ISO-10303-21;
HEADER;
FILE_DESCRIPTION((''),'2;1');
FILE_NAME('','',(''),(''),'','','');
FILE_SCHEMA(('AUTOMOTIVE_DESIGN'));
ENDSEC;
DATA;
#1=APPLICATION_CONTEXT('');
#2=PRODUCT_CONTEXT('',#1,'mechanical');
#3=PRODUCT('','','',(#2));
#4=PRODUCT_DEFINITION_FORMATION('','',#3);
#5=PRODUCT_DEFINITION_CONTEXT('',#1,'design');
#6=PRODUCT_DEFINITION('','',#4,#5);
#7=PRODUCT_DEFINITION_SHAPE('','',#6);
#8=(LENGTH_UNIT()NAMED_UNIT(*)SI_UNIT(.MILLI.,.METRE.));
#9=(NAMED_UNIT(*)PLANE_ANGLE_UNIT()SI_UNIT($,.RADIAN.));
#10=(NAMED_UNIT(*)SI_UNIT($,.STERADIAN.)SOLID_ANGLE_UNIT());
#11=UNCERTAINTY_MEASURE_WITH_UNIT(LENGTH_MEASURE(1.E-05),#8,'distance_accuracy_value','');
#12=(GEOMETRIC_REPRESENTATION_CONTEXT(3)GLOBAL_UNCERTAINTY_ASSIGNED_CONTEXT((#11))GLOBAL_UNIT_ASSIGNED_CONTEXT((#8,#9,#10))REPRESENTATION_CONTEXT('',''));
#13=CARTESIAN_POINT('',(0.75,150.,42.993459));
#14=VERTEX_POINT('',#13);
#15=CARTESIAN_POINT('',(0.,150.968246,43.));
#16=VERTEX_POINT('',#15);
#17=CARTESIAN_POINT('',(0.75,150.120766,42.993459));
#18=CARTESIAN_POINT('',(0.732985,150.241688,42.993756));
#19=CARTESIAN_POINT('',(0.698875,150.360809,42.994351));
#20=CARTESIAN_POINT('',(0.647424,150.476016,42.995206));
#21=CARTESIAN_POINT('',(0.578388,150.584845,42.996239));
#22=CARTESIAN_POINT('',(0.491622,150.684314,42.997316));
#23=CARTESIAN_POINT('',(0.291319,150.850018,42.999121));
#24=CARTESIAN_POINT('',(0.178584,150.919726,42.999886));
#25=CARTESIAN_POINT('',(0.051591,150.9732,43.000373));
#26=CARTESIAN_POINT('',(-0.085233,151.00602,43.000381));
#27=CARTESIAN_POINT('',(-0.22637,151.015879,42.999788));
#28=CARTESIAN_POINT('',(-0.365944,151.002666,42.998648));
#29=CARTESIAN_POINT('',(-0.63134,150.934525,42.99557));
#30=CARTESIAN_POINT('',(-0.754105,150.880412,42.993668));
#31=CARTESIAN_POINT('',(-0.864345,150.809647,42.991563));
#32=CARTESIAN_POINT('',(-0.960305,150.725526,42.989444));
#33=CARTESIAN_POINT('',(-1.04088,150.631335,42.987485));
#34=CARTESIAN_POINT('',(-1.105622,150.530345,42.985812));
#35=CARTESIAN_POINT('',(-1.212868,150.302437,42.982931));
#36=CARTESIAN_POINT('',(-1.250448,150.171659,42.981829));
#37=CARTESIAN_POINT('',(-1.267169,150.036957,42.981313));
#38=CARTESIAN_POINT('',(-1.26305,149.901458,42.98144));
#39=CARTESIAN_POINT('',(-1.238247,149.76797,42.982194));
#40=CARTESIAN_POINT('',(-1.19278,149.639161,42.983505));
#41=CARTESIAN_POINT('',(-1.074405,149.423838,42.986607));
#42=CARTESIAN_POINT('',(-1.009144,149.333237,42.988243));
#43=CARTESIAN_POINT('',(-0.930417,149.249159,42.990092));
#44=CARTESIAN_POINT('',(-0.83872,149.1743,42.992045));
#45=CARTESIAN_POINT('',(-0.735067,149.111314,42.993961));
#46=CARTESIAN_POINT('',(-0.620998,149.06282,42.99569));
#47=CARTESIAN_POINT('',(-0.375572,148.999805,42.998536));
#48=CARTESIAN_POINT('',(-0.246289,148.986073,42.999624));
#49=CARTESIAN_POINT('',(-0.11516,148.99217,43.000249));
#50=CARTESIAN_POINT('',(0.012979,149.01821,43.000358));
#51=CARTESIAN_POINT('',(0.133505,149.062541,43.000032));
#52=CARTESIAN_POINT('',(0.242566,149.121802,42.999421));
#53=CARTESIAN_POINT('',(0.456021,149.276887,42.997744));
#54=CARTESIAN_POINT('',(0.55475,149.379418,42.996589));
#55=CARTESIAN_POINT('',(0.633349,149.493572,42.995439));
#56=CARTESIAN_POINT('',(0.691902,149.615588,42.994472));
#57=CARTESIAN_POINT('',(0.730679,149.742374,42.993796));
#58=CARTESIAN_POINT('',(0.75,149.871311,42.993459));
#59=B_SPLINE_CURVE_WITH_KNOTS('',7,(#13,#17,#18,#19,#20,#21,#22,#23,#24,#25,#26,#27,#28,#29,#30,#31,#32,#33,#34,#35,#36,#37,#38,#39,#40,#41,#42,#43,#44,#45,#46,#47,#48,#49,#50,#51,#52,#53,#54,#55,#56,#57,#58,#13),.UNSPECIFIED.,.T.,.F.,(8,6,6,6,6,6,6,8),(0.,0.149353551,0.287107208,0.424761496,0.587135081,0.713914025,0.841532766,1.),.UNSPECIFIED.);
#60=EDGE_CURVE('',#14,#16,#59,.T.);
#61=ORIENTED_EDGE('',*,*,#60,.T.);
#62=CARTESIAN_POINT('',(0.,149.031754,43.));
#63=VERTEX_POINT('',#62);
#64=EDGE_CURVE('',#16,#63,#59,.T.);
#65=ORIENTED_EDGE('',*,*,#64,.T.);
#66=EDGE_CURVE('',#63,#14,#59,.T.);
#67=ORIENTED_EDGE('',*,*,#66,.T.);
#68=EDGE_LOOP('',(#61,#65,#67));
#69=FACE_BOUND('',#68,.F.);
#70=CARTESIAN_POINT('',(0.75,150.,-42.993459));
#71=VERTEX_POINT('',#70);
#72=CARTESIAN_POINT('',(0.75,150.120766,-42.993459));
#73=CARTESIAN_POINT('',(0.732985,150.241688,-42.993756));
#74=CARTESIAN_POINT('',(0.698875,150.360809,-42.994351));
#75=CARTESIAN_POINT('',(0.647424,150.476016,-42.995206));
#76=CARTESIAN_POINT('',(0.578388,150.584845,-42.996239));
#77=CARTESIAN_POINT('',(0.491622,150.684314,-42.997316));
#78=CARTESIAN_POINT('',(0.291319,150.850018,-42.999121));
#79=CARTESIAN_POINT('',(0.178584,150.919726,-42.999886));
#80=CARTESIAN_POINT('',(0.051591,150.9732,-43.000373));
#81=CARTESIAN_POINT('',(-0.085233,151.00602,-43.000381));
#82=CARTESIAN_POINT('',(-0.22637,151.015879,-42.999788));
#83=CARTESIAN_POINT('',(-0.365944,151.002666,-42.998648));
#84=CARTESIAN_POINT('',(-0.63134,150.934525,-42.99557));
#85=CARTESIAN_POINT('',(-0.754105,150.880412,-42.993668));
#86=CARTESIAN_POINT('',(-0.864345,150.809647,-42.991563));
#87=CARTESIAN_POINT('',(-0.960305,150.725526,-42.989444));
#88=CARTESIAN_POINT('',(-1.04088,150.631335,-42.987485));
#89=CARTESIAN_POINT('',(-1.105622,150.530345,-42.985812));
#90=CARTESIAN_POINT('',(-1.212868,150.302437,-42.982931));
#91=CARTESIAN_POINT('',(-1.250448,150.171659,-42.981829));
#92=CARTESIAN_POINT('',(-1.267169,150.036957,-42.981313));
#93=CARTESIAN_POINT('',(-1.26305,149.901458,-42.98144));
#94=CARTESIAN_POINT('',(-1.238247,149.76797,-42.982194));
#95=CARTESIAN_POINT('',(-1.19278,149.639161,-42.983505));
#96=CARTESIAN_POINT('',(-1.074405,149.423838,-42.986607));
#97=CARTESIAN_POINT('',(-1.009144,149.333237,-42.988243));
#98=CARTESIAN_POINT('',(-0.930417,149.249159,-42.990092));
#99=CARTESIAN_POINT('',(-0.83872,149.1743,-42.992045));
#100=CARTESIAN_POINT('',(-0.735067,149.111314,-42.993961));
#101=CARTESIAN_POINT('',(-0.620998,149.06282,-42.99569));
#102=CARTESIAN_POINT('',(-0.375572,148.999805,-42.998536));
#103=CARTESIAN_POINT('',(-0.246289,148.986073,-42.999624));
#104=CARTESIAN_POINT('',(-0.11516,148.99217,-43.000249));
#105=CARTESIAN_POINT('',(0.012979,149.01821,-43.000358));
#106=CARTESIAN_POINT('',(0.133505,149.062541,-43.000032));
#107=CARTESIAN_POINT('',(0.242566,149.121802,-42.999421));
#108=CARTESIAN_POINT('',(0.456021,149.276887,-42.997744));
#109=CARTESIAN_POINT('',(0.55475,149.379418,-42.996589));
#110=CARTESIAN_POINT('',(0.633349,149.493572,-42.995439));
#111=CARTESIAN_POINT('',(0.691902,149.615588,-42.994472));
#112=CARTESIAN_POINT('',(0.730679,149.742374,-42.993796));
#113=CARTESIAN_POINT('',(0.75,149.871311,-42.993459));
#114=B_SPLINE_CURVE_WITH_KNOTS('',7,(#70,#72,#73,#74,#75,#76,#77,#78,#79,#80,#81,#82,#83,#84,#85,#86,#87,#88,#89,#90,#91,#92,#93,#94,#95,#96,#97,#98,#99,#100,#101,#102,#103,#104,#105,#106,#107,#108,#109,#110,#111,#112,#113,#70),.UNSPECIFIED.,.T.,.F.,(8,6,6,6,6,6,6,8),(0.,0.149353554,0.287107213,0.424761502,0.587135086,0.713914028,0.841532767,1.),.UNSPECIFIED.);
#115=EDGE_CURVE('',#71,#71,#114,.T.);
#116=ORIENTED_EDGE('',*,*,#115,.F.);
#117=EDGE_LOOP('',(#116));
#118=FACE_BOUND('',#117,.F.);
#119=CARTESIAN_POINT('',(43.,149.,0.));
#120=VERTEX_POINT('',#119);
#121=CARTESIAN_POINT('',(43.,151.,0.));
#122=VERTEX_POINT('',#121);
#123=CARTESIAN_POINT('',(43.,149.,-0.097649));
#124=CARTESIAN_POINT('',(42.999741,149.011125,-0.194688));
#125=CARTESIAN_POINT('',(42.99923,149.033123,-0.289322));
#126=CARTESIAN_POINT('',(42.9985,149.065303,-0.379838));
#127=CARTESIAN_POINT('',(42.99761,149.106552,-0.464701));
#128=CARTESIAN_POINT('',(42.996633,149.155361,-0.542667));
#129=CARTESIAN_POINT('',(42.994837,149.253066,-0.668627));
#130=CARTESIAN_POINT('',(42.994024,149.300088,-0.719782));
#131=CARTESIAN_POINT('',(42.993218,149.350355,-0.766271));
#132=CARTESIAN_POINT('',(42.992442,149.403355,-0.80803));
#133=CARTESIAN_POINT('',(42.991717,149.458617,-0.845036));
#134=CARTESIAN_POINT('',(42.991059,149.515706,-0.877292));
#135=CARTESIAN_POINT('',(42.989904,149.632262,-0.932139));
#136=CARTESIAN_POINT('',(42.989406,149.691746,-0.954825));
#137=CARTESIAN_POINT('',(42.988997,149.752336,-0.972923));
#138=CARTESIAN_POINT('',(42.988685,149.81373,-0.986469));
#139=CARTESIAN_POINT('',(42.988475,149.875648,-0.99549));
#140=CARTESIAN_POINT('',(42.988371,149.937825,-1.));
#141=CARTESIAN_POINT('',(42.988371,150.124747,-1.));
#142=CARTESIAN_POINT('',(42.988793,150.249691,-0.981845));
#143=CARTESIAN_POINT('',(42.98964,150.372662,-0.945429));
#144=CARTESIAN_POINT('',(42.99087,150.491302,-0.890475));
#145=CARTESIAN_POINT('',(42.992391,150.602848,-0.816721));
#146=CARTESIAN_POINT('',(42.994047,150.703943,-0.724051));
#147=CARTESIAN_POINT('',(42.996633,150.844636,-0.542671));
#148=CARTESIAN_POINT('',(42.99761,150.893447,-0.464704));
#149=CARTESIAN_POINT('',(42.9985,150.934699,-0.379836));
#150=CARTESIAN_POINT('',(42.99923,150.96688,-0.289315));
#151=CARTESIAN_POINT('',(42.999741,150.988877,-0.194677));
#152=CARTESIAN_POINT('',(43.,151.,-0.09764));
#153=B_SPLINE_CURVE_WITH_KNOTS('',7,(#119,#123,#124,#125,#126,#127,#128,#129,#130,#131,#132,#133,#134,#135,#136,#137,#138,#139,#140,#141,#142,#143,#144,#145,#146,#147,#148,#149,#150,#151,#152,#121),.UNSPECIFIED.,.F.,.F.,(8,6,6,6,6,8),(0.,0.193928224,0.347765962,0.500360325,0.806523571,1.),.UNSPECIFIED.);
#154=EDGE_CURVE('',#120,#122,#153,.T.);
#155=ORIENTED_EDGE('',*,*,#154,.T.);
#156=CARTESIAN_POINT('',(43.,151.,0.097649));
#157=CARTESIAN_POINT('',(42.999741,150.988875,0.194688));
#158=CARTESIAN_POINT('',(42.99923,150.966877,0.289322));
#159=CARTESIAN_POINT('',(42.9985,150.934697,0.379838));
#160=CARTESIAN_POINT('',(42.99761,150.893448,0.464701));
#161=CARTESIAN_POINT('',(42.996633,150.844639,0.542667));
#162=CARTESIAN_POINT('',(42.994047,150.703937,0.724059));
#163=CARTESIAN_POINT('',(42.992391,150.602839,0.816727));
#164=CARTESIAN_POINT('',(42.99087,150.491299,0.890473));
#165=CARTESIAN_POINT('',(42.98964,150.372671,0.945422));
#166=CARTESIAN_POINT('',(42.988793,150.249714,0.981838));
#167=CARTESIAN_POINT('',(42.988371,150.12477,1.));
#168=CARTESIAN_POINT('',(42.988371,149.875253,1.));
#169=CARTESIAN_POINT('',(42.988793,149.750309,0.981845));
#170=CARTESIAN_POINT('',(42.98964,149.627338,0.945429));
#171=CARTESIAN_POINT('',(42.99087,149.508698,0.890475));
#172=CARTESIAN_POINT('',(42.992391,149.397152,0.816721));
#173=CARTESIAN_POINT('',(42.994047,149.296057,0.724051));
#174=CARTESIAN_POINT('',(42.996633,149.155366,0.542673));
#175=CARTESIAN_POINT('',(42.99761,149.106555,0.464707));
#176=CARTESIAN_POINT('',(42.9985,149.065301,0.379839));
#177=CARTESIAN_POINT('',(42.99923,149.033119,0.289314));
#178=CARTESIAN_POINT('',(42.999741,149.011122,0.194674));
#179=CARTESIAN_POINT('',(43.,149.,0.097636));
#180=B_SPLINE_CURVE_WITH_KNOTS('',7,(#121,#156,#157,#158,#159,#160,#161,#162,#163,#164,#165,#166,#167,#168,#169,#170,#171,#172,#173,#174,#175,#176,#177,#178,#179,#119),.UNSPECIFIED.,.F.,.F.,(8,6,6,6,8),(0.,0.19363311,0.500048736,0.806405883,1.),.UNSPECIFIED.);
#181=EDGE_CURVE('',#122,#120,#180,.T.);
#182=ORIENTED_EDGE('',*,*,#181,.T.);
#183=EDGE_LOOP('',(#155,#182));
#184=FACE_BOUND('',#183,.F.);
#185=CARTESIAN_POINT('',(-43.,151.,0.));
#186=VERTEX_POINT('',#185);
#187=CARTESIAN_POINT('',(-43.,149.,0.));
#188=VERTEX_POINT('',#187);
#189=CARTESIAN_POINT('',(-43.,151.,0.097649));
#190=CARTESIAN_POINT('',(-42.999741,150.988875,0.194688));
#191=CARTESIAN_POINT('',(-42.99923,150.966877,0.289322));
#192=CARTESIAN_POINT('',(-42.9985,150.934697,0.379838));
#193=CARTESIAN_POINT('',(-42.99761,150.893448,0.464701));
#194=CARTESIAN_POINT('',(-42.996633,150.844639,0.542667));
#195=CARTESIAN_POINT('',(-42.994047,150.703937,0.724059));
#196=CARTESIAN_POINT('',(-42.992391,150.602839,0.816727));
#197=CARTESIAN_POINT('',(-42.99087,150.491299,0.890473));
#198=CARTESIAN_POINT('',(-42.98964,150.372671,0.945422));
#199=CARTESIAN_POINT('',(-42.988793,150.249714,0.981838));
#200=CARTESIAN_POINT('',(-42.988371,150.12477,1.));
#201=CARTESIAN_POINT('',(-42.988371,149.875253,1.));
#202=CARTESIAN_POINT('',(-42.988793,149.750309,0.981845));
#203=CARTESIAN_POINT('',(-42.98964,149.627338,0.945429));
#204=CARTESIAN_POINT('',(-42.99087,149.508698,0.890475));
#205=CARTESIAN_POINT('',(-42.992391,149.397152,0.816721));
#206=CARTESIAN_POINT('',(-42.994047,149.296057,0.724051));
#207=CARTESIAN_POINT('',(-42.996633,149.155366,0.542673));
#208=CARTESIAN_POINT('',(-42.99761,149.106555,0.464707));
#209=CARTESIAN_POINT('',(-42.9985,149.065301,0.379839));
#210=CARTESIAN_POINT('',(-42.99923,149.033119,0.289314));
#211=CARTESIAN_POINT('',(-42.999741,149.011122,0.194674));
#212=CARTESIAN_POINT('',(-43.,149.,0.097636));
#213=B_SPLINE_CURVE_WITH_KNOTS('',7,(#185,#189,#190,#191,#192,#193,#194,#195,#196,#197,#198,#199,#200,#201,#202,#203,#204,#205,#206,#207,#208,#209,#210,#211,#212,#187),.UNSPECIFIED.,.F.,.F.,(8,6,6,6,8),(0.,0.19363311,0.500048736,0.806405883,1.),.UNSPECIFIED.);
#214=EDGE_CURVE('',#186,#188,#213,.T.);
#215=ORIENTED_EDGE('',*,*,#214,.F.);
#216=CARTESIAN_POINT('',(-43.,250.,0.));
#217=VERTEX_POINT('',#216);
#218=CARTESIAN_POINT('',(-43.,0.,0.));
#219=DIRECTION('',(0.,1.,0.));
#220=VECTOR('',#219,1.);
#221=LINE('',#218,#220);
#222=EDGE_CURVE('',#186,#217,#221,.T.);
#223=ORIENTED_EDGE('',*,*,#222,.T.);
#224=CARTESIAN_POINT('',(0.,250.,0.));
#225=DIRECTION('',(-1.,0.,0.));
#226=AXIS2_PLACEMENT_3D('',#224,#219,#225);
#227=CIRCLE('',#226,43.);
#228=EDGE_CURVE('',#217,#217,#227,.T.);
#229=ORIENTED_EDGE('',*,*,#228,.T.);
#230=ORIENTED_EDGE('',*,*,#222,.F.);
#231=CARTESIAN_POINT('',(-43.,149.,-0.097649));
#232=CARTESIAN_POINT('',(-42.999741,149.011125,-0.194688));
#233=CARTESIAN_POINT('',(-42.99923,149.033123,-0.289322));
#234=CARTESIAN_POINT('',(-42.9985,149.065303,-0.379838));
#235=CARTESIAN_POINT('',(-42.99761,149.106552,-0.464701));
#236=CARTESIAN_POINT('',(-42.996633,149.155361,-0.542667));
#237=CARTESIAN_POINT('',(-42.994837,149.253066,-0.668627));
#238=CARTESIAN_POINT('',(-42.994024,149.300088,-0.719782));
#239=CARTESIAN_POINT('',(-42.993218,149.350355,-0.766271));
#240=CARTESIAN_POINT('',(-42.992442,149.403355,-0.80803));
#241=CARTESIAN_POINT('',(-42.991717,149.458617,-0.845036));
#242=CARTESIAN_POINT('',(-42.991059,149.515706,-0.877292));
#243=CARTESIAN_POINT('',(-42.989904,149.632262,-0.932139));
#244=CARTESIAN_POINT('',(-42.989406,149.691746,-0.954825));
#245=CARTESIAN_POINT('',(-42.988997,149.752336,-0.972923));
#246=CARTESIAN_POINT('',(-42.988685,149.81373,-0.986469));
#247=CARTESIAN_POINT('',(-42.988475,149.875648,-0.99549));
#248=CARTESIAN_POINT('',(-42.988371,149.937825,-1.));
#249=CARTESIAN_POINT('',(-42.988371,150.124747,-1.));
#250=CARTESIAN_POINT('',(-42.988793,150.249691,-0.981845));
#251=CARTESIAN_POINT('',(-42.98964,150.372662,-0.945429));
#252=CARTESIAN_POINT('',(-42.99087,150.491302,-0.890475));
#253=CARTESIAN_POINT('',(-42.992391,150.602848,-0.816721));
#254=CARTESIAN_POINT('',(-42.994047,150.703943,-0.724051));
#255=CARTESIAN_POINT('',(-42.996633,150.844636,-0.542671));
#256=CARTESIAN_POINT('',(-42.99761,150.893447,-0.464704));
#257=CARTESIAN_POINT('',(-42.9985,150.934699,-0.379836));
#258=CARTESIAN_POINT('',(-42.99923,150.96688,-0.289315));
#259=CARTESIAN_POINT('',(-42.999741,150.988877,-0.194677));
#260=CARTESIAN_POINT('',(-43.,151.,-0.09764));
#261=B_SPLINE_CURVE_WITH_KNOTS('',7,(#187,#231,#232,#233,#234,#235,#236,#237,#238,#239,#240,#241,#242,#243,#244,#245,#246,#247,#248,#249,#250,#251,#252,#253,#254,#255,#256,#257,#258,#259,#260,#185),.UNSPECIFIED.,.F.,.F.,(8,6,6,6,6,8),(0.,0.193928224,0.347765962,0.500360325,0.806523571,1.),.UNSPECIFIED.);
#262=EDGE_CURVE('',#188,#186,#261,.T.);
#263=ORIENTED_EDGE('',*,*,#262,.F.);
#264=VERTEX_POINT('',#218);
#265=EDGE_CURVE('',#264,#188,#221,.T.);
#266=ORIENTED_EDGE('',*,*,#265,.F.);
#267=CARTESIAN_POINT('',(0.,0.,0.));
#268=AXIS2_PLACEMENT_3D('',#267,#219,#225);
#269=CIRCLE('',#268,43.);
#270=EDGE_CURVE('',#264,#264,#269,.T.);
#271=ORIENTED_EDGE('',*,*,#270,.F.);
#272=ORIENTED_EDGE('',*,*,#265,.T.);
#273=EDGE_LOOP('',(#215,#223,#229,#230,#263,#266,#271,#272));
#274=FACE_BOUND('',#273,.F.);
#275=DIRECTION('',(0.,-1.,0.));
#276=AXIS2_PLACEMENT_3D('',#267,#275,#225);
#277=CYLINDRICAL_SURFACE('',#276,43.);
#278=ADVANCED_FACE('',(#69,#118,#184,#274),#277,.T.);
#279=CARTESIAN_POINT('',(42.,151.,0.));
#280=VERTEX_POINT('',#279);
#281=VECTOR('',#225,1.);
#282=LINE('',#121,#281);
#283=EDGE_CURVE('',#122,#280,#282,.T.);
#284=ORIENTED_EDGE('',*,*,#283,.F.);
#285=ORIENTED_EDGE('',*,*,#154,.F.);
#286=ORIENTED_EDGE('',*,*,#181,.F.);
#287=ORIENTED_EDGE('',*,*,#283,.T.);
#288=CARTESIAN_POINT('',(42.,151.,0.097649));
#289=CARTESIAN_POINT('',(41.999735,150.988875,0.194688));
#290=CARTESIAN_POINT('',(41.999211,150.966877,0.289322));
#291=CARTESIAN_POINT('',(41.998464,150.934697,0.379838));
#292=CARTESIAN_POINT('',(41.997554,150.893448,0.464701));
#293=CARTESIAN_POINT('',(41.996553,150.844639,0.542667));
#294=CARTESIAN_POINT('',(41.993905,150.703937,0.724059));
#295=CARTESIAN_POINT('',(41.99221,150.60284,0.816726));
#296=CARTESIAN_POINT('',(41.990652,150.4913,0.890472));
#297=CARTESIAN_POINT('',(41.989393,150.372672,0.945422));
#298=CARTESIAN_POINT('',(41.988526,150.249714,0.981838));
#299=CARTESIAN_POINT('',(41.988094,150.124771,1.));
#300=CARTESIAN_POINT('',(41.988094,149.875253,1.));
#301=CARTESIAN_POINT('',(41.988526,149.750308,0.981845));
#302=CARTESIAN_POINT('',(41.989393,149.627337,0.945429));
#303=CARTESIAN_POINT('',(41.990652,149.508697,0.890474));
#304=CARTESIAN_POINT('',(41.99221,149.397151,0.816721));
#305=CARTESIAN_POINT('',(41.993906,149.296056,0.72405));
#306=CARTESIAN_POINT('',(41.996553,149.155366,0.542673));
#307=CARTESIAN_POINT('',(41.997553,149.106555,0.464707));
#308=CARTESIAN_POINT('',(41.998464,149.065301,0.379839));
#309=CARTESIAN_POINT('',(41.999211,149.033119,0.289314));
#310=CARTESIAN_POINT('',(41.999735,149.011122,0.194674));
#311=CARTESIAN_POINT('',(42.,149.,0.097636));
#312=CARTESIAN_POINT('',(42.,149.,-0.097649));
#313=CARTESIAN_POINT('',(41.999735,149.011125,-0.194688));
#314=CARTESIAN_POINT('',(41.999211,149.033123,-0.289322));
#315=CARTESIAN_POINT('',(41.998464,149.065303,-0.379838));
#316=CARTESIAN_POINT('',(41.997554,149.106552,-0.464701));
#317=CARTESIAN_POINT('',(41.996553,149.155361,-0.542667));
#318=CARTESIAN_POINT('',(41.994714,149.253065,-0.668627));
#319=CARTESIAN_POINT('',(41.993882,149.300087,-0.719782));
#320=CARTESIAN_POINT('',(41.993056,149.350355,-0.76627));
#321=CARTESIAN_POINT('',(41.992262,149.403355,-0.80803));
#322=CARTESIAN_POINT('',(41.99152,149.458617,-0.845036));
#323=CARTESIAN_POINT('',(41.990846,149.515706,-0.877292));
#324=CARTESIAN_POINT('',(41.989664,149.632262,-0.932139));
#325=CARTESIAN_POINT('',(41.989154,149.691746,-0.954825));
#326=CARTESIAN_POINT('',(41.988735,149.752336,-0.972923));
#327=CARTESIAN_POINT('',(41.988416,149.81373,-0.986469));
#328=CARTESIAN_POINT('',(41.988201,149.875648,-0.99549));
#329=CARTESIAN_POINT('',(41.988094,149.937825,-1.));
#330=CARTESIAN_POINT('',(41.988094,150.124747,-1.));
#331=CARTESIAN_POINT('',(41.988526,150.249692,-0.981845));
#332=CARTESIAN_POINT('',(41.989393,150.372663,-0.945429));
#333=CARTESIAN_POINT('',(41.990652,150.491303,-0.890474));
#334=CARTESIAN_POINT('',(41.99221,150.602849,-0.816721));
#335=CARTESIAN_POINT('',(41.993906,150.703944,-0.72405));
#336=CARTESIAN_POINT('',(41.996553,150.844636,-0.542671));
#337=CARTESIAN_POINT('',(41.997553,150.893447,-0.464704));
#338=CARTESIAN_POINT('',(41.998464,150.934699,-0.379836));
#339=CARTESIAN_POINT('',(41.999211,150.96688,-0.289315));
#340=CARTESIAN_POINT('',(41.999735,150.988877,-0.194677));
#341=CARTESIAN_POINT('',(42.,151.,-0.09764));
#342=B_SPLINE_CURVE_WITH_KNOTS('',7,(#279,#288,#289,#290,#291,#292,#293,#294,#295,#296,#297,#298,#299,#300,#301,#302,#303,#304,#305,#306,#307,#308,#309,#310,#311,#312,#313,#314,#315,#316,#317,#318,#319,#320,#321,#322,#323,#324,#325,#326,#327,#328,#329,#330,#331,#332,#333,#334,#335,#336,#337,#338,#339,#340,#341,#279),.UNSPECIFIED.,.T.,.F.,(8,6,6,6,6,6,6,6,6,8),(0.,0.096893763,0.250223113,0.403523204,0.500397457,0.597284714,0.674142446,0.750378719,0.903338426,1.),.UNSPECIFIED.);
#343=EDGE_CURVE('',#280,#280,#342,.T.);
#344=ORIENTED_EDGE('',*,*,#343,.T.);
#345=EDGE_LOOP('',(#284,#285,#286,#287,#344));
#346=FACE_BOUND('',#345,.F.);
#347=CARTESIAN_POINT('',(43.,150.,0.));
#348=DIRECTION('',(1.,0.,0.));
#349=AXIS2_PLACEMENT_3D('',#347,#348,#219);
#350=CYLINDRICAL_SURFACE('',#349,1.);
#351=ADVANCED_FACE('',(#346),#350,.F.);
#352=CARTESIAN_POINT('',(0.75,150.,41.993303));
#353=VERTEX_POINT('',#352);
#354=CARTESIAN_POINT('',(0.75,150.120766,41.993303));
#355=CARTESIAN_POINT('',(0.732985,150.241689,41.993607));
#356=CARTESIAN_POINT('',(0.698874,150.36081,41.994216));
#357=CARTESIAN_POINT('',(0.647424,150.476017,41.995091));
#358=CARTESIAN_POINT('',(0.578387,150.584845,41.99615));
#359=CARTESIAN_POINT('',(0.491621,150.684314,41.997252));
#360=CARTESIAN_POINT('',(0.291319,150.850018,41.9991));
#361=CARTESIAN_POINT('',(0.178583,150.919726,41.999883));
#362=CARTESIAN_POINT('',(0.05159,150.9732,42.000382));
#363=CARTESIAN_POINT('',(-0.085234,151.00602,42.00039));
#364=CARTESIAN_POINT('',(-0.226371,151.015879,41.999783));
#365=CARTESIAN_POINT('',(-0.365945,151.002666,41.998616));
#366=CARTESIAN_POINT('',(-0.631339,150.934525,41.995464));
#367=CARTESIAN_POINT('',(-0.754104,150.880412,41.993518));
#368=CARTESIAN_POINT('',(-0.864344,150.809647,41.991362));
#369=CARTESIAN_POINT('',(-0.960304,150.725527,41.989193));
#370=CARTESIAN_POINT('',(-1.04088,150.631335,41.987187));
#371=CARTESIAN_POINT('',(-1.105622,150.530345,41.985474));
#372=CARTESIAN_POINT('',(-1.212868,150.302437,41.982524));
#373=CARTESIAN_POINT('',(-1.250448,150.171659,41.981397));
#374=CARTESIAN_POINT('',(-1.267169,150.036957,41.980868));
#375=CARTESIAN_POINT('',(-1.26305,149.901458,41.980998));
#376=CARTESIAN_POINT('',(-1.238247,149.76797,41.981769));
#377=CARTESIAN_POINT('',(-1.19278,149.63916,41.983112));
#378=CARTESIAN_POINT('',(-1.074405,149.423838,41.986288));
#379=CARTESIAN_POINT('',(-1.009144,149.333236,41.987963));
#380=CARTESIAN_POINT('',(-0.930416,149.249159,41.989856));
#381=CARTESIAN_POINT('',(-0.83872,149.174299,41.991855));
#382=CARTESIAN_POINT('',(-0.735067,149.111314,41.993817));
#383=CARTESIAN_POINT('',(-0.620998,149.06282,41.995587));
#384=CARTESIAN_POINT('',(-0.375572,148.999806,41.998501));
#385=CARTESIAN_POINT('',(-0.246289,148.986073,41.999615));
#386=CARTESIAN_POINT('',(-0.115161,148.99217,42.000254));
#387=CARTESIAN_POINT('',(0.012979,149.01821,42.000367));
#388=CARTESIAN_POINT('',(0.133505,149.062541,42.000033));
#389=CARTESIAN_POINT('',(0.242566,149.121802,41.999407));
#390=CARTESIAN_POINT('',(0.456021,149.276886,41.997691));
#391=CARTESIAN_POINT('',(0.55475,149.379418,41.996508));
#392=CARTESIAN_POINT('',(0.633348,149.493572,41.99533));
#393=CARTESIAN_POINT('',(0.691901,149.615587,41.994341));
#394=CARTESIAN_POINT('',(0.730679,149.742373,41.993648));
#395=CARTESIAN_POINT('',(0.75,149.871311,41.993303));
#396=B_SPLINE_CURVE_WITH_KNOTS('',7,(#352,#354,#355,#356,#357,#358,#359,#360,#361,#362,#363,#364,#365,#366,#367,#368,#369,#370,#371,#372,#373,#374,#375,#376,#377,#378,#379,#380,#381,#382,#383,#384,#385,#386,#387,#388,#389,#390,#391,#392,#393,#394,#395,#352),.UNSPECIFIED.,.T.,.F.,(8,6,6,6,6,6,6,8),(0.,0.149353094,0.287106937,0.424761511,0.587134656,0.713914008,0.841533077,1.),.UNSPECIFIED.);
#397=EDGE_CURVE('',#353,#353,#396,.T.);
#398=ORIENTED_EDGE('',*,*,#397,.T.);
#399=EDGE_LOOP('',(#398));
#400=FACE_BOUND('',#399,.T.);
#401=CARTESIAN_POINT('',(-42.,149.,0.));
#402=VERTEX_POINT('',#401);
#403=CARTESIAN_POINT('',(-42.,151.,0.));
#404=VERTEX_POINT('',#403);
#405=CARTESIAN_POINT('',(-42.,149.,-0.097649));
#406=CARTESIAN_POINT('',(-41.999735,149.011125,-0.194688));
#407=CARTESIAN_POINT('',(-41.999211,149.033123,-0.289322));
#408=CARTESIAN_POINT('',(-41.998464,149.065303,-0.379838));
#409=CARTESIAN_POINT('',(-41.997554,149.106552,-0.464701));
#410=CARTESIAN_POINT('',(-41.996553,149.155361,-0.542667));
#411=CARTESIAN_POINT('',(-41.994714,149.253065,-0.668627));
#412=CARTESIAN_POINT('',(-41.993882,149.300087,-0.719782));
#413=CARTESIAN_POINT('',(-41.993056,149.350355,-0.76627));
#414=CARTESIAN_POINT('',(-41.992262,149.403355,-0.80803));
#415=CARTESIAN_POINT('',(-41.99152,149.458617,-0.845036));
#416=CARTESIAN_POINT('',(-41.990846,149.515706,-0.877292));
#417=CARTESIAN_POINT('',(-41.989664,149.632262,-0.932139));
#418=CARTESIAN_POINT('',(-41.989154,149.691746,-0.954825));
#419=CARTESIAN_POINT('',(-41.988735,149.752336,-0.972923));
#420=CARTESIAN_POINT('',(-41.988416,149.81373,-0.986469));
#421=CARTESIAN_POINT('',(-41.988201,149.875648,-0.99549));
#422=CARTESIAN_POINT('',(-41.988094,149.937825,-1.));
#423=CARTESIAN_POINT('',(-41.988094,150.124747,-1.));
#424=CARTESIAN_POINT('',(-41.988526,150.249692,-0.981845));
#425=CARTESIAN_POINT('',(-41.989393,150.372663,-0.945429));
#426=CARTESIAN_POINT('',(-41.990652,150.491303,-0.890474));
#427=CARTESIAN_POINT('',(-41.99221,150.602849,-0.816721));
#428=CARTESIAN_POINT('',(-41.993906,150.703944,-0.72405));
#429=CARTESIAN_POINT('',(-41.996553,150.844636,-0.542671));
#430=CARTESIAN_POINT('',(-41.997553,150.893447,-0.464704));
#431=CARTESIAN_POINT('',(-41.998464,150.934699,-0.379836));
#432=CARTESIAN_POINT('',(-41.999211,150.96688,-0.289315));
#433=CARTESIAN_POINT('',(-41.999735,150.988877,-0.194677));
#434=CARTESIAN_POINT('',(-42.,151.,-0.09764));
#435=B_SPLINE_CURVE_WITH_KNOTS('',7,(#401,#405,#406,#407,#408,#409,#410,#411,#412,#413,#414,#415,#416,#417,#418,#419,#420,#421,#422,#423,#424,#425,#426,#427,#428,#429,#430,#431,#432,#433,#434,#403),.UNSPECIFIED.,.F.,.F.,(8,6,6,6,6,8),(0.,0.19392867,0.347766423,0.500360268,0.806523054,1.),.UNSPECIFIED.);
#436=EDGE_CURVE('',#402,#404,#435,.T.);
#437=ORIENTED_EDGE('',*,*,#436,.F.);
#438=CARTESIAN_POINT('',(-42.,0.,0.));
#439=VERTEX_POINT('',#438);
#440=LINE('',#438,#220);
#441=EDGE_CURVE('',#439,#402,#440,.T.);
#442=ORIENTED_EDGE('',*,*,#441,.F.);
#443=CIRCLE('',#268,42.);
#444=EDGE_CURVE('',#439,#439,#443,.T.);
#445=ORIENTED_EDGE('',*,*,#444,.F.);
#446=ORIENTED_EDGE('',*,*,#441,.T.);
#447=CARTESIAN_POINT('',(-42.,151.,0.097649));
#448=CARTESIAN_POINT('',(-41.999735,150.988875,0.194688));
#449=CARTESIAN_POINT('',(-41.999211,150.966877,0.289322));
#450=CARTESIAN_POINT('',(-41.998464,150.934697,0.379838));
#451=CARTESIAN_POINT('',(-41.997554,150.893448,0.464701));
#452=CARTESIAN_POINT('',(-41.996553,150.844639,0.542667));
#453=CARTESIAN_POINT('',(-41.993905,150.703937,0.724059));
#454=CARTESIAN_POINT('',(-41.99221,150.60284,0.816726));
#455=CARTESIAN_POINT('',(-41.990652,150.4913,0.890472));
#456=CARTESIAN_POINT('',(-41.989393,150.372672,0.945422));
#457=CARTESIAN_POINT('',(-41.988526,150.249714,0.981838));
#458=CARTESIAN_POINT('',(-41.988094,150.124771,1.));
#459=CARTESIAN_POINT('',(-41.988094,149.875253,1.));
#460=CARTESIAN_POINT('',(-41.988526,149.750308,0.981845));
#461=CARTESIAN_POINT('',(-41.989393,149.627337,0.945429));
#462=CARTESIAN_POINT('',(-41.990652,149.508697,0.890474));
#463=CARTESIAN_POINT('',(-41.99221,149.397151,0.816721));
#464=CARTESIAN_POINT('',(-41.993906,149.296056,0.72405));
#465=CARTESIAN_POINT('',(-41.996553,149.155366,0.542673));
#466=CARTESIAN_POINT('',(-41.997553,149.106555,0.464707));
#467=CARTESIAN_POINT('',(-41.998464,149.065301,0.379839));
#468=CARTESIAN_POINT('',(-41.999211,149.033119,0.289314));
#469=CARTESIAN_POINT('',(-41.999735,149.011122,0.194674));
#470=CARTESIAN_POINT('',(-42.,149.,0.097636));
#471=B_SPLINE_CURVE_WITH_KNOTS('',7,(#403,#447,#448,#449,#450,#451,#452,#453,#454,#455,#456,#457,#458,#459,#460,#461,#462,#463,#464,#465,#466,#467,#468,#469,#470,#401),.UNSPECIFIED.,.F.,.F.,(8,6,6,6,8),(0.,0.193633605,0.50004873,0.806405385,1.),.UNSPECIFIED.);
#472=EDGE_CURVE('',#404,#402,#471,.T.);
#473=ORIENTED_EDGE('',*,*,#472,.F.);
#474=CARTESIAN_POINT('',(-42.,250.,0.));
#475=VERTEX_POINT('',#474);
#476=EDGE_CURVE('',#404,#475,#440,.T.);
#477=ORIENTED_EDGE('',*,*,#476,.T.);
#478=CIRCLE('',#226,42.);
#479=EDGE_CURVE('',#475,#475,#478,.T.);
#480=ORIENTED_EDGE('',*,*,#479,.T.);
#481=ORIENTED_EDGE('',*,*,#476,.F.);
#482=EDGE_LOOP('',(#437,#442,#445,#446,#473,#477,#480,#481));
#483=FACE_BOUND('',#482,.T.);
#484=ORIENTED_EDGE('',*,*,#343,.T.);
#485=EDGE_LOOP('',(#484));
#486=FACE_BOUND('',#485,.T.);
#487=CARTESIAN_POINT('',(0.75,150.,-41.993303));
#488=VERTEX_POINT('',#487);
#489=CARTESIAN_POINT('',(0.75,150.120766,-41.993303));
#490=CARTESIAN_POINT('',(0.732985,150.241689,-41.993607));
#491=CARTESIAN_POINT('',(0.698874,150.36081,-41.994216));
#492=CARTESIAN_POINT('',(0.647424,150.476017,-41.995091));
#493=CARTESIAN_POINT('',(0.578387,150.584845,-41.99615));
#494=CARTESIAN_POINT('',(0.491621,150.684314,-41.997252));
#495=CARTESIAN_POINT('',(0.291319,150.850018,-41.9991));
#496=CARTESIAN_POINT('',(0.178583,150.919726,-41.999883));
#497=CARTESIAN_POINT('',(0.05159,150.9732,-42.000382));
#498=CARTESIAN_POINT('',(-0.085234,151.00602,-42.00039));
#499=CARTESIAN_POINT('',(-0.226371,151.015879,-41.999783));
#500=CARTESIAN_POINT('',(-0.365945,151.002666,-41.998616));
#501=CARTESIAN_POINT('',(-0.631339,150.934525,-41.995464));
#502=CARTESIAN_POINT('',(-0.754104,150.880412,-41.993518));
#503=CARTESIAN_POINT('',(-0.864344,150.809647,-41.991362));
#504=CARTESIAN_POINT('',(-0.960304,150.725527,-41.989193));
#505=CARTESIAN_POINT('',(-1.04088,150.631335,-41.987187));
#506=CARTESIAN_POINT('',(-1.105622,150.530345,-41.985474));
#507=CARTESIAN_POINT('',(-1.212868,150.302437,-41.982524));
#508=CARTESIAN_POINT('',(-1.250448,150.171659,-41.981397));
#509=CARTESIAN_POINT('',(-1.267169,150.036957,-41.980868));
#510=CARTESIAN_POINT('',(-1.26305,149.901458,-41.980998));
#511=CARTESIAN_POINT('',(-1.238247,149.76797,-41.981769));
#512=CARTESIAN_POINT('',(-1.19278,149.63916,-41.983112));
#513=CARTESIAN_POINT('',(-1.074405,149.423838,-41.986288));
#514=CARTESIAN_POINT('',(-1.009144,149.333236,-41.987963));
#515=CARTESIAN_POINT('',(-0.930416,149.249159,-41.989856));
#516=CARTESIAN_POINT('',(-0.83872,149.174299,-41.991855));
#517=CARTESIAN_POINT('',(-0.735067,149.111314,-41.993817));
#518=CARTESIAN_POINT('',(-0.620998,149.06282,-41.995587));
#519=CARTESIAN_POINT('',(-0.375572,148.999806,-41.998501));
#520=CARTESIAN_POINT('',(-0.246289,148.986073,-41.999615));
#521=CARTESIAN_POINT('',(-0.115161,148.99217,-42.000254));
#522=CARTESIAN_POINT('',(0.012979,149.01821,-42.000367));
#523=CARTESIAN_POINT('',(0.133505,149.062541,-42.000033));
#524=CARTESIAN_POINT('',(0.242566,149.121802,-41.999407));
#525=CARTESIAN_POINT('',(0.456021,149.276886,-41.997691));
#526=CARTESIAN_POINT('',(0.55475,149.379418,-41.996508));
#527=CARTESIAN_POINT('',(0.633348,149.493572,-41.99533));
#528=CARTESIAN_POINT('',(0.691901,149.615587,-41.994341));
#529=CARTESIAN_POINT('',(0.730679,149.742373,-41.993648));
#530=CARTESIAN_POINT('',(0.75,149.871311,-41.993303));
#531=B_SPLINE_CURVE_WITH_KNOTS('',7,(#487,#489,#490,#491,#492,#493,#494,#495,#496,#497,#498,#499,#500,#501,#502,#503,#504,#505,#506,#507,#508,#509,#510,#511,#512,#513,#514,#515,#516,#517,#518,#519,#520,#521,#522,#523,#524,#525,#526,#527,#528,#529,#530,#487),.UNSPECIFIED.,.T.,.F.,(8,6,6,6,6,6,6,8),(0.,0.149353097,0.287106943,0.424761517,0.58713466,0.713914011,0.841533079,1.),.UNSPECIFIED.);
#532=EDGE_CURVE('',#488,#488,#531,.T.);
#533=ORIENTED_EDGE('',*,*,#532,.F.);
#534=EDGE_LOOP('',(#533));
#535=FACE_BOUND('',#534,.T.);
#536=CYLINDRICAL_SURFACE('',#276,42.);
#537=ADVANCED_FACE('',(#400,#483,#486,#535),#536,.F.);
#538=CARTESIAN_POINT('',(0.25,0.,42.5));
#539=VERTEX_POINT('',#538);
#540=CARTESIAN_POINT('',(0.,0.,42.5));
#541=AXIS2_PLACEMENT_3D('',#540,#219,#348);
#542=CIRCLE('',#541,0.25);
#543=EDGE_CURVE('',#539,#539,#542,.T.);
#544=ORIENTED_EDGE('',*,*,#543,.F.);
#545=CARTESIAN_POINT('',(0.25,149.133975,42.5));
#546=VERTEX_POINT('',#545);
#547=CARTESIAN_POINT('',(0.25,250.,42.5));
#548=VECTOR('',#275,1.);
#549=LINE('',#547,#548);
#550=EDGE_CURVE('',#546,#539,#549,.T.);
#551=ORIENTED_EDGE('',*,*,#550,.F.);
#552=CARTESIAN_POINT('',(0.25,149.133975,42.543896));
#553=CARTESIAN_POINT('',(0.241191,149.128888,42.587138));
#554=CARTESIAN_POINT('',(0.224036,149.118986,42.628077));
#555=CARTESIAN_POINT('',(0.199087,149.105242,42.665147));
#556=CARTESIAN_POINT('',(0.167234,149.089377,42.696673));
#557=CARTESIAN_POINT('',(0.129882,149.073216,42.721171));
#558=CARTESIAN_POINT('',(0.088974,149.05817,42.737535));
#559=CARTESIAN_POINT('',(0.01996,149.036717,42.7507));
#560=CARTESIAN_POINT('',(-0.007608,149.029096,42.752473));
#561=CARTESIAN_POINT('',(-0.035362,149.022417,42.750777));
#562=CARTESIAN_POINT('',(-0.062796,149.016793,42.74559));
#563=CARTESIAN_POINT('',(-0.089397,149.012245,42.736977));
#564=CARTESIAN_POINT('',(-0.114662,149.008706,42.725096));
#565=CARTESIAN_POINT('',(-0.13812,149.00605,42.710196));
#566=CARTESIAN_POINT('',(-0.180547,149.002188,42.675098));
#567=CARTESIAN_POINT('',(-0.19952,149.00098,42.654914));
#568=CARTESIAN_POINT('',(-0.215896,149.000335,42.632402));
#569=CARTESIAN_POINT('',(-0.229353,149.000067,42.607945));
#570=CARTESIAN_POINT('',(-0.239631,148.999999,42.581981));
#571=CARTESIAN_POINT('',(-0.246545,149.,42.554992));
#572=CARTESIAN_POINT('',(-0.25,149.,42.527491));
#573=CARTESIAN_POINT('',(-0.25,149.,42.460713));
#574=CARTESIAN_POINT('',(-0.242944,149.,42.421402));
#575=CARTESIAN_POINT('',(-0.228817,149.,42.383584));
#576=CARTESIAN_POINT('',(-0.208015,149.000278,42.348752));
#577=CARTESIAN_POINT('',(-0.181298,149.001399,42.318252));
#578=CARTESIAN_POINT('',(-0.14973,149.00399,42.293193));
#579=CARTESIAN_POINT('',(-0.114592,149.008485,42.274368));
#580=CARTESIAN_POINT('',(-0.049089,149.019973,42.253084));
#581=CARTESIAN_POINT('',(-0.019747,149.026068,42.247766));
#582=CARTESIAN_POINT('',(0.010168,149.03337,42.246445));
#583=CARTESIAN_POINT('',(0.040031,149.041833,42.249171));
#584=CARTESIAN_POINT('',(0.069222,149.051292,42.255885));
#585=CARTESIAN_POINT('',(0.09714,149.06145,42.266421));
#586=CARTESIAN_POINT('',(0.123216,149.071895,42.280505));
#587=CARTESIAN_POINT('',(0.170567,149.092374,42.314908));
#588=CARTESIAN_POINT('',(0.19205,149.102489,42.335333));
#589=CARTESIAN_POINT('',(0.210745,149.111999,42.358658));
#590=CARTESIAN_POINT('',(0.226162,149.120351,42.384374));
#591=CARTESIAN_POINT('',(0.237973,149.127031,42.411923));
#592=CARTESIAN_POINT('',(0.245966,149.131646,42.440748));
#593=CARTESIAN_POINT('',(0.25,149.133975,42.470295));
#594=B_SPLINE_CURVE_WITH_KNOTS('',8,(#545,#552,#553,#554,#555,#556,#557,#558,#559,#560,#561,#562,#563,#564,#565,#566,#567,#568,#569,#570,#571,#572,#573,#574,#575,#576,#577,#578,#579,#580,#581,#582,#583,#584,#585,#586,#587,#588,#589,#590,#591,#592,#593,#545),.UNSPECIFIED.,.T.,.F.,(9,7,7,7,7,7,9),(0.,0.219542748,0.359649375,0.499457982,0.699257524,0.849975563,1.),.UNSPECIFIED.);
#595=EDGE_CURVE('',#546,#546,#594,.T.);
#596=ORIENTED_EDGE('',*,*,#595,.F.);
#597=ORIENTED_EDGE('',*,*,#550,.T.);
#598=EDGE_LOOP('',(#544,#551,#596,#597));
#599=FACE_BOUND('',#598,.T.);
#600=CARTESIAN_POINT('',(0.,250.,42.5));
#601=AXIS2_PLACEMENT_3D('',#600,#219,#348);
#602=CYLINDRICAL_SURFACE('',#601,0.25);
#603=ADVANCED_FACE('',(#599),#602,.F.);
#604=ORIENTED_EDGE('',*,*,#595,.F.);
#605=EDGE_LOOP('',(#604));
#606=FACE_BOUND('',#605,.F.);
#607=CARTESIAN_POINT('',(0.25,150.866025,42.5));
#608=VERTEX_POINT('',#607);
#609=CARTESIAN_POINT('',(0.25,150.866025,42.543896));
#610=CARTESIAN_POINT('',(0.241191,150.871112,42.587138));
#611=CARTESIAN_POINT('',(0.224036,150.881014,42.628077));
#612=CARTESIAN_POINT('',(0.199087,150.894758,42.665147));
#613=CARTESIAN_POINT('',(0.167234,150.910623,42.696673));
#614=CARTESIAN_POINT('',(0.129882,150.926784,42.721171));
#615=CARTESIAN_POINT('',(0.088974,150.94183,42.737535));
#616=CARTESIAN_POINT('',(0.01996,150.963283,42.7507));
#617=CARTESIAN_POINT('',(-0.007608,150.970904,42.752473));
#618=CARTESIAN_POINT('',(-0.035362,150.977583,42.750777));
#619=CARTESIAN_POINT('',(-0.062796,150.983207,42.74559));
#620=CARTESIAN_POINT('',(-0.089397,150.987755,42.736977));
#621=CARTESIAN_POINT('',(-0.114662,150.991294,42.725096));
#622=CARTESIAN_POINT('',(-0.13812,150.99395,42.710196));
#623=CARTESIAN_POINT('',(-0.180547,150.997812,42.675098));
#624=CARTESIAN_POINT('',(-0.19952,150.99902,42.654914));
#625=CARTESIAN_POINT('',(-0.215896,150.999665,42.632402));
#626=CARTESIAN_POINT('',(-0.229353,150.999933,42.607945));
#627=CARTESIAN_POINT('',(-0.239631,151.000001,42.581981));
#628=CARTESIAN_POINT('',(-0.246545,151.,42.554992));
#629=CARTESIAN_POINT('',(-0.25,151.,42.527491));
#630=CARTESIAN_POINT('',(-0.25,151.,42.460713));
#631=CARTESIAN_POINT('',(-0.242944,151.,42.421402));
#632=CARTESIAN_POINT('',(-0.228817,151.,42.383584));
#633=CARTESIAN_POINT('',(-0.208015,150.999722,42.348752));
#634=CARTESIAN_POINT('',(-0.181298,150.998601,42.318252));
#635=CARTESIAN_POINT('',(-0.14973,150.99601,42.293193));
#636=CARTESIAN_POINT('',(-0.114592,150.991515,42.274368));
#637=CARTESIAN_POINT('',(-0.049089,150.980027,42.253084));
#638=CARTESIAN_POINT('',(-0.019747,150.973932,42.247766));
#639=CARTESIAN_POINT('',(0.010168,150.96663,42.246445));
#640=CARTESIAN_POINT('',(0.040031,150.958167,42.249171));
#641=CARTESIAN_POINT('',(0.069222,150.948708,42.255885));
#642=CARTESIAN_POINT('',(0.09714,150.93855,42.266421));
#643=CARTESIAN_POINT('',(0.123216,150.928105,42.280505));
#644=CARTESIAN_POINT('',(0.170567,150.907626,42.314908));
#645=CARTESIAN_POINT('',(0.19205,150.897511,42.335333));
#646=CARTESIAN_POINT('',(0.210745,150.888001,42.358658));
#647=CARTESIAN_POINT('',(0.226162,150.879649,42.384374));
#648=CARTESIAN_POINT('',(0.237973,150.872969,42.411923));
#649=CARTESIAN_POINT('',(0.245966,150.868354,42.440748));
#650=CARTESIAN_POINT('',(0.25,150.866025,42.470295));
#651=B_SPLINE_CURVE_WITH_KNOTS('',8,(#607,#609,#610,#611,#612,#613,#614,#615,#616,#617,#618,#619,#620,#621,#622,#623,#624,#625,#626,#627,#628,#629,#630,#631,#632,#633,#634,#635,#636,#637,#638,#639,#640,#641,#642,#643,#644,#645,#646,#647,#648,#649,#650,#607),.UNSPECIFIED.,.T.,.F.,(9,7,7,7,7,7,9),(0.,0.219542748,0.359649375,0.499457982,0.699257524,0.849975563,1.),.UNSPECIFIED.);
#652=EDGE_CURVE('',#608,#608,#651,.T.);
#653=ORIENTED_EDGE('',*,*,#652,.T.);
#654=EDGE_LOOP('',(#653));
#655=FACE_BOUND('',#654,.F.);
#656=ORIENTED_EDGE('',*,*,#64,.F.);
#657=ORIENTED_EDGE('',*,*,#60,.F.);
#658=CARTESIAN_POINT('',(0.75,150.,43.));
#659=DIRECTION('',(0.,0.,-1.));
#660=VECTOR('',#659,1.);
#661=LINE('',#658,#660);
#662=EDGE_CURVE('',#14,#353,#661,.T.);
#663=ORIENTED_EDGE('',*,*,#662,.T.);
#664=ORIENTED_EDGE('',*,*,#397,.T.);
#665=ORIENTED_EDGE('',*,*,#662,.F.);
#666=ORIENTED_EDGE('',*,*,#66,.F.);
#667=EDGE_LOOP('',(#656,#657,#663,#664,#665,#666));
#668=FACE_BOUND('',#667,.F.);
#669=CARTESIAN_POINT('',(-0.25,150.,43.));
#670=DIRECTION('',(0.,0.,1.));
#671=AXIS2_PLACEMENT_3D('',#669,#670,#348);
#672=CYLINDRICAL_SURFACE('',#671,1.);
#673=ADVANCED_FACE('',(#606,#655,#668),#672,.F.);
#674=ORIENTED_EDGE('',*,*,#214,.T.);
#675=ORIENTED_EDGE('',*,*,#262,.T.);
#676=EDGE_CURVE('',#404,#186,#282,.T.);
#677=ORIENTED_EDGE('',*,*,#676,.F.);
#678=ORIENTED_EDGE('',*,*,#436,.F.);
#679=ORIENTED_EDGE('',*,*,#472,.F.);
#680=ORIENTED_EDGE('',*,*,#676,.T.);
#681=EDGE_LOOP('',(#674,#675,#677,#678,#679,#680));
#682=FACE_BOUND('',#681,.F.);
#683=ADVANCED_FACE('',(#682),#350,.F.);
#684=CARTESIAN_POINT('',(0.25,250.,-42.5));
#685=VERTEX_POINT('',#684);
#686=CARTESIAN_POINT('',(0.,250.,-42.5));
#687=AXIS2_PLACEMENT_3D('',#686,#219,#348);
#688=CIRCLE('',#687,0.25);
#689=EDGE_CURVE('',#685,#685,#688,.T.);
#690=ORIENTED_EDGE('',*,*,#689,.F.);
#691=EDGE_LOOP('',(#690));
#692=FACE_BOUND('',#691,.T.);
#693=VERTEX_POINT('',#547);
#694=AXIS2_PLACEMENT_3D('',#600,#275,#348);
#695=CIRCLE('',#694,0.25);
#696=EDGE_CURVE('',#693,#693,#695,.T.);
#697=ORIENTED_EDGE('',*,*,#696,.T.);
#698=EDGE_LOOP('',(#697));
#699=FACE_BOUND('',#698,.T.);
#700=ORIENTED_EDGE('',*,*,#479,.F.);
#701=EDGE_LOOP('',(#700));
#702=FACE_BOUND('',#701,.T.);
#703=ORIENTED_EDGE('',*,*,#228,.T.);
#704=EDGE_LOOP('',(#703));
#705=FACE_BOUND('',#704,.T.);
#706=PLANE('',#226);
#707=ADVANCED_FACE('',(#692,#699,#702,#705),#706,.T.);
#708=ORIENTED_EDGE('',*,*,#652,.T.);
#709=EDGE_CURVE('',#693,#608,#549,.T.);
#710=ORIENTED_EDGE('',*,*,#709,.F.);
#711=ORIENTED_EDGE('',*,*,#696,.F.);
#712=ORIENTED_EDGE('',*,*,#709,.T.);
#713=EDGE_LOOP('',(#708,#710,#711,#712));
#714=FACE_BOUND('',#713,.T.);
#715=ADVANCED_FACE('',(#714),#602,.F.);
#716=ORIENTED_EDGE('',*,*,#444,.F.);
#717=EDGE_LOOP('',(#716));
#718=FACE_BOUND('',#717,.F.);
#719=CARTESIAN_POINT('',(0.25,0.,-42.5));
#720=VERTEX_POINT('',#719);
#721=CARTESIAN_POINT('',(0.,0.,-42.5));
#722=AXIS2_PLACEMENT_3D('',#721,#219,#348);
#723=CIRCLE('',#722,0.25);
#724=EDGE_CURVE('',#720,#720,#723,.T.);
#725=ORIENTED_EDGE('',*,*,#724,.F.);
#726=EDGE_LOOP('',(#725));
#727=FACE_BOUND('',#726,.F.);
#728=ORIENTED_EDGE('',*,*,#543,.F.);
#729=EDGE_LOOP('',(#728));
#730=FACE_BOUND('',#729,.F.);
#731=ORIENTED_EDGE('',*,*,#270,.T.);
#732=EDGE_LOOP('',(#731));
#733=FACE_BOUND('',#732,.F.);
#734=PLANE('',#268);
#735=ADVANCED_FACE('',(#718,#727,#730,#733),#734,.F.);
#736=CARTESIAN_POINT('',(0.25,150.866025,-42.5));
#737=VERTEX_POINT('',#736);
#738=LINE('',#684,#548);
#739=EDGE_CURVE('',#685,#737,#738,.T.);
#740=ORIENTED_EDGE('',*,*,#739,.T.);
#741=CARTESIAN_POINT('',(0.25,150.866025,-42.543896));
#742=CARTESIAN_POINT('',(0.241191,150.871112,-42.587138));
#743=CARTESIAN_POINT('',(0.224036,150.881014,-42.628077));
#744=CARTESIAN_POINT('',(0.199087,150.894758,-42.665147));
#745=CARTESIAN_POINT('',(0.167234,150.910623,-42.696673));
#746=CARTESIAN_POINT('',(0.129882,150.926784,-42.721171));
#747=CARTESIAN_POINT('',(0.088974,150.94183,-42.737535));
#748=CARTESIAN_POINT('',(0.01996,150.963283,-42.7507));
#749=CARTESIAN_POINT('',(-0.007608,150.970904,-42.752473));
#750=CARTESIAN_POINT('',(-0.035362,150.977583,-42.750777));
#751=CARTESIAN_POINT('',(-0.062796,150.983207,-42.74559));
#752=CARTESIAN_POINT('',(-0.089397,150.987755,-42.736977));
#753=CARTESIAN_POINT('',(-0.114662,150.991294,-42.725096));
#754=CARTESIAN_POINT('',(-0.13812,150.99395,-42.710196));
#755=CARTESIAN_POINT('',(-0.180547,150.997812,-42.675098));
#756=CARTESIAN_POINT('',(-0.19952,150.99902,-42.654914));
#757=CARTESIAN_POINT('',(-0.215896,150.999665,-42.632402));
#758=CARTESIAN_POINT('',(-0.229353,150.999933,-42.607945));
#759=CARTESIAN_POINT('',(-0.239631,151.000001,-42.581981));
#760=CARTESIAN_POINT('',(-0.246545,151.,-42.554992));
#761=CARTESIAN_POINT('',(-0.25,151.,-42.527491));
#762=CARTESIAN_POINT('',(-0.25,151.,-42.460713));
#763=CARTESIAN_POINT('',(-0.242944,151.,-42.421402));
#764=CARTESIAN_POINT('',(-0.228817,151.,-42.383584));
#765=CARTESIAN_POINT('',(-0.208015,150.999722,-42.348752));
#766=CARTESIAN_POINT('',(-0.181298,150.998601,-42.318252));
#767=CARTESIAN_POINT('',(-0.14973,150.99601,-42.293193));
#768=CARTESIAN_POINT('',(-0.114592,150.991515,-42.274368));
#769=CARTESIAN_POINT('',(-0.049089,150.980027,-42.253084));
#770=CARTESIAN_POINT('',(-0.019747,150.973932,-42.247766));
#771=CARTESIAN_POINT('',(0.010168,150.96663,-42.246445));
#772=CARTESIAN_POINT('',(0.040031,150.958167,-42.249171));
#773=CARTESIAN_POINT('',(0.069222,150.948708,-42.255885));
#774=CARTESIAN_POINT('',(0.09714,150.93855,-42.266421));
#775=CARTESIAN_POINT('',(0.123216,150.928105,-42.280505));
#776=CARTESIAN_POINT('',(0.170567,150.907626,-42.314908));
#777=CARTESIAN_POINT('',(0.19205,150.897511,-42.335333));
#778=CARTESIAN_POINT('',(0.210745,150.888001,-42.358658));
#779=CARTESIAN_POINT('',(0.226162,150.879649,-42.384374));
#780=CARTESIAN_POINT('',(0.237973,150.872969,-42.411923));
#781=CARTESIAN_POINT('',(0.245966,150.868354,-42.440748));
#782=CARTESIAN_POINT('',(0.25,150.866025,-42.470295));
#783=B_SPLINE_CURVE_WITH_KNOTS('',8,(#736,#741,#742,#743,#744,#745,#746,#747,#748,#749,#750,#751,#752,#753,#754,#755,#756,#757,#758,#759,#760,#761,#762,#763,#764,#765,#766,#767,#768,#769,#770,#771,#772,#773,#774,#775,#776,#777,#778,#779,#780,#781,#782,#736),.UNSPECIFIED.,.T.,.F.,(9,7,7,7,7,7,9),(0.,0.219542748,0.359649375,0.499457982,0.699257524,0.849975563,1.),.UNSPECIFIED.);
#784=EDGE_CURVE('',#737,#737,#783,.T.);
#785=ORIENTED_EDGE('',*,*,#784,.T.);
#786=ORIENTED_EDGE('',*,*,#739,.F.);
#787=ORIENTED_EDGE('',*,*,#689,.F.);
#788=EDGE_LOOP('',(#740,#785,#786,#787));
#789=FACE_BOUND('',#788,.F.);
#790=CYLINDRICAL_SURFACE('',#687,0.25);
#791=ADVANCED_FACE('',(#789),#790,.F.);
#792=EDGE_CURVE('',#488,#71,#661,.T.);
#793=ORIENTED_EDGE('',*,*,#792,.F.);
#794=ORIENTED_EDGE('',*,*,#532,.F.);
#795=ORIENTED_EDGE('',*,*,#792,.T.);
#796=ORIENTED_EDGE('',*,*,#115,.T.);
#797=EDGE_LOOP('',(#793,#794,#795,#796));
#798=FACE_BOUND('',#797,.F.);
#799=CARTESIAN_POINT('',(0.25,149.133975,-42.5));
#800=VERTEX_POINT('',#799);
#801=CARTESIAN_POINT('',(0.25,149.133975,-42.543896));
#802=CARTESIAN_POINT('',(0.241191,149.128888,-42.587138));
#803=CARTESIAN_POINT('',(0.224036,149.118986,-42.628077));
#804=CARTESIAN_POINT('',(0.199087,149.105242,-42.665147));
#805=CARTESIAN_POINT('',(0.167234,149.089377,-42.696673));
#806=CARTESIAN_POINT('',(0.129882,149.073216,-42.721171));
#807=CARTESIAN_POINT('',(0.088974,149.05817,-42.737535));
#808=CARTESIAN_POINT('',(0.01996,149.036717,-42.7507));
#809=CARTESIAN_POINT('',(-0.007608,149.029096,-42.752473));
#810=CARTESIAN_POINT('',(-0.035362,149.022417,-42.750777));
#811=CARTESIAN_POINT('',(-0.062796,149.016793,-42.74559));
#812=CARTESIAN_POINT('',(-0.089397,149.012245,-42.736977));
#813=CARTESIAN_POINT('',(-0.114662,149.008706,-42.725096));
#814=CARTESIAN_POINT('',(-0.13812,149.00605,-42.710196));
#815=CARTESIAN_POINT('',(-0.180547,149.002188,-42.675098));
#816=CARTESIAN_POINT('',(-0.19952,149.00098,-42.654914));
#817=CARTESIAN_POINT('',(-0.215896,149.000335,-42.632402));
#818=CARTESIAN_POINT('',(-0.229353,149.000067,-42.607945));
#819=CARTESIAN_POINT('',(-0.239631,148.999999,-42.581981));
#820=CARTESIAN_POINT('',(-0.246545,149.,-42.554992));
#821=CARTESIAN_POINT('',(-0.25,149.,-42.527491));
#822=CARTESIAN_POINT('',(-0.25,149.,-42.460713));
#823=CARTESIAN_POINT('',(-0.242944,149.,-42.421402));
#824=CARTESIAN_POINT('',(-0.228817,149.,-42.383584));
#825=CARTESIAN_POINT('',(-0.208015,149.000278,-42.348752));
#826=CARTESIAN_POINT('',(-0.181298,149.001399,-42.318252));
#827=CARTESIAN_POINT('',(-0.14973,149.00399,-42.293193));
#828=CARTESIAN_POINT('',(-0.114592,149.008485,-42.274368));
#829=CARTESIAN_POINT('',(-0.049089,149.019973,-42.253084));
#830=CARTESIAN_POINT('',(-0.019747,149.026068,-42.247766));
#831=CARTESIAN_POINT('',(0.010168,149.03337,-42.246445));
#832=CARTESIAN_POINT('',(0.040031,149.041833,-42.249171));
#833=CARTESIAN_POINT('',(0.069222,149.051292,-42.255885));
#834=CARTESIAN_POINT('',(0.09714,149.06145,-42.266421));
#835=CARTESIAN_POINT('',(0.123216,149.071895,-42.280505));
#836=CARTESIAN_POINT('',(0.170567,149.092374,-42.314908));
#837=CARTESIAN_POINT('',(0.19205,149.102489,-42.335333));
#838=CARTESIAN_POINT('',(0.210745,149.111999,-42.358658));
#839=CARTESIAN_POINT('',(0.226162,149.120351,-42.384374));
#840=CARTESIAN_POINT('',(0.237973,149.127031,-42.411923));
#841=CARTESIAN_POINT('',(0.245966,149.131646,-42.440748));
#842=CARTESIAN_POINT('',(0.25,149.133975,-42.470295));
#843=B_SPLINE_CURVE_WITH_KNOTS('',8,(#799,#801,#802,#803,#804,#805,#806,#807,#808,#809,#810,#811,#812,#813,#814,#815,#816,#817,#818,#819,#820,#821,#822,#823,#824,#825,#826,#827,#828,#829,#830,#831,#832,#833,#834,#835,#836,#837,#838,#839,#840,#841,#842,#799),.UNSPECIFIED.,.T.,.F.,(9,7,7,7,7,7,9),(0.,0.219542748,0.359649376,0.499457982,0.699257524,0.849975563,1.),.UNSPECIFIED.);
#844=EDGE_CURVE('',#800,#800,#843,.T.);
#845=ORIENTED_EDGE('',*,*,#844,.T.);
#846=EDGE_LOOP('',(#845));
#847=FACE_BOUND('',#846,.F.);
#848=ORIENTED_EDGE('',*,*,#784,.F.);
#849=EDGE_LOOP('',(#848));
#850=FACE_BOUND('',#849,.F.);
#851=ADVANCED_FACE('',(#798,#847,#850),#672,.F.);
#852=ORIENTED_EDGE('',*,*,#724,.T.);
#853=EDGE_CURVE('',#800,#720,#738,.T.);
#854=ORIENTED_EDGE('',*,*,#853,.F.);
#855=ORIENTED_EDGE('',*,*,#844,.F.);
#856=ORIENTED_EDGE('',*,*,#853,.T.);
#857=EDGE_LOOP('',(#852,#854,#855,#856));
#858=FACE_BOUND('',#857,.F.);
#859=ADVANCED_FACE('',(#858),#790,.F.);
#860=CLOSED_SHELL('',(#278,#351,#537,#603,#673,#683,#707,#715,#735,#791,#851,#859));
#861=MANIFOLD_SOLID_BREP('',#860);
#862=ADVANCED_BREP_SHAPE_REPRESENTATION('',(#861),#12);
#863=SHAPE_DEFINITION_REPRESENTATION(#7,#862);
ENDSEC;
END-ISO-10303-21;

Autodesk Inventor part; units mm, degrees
sketch "Sketch3" plane through (0, 0, 0) normal (0, 1, 0) x (-1, 0, 0)
  circle A0 centre (0, 0) radius 43
  circle A1 centre (0, 0) radius 42
  dimension "d8" = 86
  dimension "d9" = 84
extrude "Extrusion3" add sketch "Sketch3" along normal blind 250
ref_plane "Work Plane2" through (0, 125, 0) normal (0, 1, 0) x (-1, 0, 0)
sketch "Sketch4" plane through (0, 250, 0) normal (0, 1, 0) x (1, 0, 0)
  circle A0 centre (0, 42.5) radius 0.25
  point P0 (0, 0)
  dimension "d12" = 0.5
  dimension "d13" = 42.5
extrude "Extrusion4" cut sketch "Sketch4" along normal through all both and the other way through all
mirror "Mirror1" about plane through (0, 0, 0) normal (0, 0, 1) of "Extrusion4"
ref_plane "Work Plane3" through (43, 0, 0) normal (1, 0, 0) x (0, 1, 0)
sketch "Sketch5" plane through (43, 0, 0) normal (1, 0, 0) x (0, 1, 0)
  circle A0 centre (150, 0) radius 1
  point P0 (0, 0)
  dimension "d16" = 2
extrude "Extrusion5" cut sketch "Sketch5" against normal through all
ref_plane "Work Plane4" through (0, 0, 43) normal (0, 0, 1) x (1, 0, 0)
sketch "Sketch6" plane through (0, 0, 43) normal (0, 0, 1) x (1, 0, 0)
  circle A0 centre (-0.25, 150) radius 1
  point P0 (0, 0)
extrude "Extrusion6" cut sketch "Sketch6" against normal through all
properties part number "seed_holder"
